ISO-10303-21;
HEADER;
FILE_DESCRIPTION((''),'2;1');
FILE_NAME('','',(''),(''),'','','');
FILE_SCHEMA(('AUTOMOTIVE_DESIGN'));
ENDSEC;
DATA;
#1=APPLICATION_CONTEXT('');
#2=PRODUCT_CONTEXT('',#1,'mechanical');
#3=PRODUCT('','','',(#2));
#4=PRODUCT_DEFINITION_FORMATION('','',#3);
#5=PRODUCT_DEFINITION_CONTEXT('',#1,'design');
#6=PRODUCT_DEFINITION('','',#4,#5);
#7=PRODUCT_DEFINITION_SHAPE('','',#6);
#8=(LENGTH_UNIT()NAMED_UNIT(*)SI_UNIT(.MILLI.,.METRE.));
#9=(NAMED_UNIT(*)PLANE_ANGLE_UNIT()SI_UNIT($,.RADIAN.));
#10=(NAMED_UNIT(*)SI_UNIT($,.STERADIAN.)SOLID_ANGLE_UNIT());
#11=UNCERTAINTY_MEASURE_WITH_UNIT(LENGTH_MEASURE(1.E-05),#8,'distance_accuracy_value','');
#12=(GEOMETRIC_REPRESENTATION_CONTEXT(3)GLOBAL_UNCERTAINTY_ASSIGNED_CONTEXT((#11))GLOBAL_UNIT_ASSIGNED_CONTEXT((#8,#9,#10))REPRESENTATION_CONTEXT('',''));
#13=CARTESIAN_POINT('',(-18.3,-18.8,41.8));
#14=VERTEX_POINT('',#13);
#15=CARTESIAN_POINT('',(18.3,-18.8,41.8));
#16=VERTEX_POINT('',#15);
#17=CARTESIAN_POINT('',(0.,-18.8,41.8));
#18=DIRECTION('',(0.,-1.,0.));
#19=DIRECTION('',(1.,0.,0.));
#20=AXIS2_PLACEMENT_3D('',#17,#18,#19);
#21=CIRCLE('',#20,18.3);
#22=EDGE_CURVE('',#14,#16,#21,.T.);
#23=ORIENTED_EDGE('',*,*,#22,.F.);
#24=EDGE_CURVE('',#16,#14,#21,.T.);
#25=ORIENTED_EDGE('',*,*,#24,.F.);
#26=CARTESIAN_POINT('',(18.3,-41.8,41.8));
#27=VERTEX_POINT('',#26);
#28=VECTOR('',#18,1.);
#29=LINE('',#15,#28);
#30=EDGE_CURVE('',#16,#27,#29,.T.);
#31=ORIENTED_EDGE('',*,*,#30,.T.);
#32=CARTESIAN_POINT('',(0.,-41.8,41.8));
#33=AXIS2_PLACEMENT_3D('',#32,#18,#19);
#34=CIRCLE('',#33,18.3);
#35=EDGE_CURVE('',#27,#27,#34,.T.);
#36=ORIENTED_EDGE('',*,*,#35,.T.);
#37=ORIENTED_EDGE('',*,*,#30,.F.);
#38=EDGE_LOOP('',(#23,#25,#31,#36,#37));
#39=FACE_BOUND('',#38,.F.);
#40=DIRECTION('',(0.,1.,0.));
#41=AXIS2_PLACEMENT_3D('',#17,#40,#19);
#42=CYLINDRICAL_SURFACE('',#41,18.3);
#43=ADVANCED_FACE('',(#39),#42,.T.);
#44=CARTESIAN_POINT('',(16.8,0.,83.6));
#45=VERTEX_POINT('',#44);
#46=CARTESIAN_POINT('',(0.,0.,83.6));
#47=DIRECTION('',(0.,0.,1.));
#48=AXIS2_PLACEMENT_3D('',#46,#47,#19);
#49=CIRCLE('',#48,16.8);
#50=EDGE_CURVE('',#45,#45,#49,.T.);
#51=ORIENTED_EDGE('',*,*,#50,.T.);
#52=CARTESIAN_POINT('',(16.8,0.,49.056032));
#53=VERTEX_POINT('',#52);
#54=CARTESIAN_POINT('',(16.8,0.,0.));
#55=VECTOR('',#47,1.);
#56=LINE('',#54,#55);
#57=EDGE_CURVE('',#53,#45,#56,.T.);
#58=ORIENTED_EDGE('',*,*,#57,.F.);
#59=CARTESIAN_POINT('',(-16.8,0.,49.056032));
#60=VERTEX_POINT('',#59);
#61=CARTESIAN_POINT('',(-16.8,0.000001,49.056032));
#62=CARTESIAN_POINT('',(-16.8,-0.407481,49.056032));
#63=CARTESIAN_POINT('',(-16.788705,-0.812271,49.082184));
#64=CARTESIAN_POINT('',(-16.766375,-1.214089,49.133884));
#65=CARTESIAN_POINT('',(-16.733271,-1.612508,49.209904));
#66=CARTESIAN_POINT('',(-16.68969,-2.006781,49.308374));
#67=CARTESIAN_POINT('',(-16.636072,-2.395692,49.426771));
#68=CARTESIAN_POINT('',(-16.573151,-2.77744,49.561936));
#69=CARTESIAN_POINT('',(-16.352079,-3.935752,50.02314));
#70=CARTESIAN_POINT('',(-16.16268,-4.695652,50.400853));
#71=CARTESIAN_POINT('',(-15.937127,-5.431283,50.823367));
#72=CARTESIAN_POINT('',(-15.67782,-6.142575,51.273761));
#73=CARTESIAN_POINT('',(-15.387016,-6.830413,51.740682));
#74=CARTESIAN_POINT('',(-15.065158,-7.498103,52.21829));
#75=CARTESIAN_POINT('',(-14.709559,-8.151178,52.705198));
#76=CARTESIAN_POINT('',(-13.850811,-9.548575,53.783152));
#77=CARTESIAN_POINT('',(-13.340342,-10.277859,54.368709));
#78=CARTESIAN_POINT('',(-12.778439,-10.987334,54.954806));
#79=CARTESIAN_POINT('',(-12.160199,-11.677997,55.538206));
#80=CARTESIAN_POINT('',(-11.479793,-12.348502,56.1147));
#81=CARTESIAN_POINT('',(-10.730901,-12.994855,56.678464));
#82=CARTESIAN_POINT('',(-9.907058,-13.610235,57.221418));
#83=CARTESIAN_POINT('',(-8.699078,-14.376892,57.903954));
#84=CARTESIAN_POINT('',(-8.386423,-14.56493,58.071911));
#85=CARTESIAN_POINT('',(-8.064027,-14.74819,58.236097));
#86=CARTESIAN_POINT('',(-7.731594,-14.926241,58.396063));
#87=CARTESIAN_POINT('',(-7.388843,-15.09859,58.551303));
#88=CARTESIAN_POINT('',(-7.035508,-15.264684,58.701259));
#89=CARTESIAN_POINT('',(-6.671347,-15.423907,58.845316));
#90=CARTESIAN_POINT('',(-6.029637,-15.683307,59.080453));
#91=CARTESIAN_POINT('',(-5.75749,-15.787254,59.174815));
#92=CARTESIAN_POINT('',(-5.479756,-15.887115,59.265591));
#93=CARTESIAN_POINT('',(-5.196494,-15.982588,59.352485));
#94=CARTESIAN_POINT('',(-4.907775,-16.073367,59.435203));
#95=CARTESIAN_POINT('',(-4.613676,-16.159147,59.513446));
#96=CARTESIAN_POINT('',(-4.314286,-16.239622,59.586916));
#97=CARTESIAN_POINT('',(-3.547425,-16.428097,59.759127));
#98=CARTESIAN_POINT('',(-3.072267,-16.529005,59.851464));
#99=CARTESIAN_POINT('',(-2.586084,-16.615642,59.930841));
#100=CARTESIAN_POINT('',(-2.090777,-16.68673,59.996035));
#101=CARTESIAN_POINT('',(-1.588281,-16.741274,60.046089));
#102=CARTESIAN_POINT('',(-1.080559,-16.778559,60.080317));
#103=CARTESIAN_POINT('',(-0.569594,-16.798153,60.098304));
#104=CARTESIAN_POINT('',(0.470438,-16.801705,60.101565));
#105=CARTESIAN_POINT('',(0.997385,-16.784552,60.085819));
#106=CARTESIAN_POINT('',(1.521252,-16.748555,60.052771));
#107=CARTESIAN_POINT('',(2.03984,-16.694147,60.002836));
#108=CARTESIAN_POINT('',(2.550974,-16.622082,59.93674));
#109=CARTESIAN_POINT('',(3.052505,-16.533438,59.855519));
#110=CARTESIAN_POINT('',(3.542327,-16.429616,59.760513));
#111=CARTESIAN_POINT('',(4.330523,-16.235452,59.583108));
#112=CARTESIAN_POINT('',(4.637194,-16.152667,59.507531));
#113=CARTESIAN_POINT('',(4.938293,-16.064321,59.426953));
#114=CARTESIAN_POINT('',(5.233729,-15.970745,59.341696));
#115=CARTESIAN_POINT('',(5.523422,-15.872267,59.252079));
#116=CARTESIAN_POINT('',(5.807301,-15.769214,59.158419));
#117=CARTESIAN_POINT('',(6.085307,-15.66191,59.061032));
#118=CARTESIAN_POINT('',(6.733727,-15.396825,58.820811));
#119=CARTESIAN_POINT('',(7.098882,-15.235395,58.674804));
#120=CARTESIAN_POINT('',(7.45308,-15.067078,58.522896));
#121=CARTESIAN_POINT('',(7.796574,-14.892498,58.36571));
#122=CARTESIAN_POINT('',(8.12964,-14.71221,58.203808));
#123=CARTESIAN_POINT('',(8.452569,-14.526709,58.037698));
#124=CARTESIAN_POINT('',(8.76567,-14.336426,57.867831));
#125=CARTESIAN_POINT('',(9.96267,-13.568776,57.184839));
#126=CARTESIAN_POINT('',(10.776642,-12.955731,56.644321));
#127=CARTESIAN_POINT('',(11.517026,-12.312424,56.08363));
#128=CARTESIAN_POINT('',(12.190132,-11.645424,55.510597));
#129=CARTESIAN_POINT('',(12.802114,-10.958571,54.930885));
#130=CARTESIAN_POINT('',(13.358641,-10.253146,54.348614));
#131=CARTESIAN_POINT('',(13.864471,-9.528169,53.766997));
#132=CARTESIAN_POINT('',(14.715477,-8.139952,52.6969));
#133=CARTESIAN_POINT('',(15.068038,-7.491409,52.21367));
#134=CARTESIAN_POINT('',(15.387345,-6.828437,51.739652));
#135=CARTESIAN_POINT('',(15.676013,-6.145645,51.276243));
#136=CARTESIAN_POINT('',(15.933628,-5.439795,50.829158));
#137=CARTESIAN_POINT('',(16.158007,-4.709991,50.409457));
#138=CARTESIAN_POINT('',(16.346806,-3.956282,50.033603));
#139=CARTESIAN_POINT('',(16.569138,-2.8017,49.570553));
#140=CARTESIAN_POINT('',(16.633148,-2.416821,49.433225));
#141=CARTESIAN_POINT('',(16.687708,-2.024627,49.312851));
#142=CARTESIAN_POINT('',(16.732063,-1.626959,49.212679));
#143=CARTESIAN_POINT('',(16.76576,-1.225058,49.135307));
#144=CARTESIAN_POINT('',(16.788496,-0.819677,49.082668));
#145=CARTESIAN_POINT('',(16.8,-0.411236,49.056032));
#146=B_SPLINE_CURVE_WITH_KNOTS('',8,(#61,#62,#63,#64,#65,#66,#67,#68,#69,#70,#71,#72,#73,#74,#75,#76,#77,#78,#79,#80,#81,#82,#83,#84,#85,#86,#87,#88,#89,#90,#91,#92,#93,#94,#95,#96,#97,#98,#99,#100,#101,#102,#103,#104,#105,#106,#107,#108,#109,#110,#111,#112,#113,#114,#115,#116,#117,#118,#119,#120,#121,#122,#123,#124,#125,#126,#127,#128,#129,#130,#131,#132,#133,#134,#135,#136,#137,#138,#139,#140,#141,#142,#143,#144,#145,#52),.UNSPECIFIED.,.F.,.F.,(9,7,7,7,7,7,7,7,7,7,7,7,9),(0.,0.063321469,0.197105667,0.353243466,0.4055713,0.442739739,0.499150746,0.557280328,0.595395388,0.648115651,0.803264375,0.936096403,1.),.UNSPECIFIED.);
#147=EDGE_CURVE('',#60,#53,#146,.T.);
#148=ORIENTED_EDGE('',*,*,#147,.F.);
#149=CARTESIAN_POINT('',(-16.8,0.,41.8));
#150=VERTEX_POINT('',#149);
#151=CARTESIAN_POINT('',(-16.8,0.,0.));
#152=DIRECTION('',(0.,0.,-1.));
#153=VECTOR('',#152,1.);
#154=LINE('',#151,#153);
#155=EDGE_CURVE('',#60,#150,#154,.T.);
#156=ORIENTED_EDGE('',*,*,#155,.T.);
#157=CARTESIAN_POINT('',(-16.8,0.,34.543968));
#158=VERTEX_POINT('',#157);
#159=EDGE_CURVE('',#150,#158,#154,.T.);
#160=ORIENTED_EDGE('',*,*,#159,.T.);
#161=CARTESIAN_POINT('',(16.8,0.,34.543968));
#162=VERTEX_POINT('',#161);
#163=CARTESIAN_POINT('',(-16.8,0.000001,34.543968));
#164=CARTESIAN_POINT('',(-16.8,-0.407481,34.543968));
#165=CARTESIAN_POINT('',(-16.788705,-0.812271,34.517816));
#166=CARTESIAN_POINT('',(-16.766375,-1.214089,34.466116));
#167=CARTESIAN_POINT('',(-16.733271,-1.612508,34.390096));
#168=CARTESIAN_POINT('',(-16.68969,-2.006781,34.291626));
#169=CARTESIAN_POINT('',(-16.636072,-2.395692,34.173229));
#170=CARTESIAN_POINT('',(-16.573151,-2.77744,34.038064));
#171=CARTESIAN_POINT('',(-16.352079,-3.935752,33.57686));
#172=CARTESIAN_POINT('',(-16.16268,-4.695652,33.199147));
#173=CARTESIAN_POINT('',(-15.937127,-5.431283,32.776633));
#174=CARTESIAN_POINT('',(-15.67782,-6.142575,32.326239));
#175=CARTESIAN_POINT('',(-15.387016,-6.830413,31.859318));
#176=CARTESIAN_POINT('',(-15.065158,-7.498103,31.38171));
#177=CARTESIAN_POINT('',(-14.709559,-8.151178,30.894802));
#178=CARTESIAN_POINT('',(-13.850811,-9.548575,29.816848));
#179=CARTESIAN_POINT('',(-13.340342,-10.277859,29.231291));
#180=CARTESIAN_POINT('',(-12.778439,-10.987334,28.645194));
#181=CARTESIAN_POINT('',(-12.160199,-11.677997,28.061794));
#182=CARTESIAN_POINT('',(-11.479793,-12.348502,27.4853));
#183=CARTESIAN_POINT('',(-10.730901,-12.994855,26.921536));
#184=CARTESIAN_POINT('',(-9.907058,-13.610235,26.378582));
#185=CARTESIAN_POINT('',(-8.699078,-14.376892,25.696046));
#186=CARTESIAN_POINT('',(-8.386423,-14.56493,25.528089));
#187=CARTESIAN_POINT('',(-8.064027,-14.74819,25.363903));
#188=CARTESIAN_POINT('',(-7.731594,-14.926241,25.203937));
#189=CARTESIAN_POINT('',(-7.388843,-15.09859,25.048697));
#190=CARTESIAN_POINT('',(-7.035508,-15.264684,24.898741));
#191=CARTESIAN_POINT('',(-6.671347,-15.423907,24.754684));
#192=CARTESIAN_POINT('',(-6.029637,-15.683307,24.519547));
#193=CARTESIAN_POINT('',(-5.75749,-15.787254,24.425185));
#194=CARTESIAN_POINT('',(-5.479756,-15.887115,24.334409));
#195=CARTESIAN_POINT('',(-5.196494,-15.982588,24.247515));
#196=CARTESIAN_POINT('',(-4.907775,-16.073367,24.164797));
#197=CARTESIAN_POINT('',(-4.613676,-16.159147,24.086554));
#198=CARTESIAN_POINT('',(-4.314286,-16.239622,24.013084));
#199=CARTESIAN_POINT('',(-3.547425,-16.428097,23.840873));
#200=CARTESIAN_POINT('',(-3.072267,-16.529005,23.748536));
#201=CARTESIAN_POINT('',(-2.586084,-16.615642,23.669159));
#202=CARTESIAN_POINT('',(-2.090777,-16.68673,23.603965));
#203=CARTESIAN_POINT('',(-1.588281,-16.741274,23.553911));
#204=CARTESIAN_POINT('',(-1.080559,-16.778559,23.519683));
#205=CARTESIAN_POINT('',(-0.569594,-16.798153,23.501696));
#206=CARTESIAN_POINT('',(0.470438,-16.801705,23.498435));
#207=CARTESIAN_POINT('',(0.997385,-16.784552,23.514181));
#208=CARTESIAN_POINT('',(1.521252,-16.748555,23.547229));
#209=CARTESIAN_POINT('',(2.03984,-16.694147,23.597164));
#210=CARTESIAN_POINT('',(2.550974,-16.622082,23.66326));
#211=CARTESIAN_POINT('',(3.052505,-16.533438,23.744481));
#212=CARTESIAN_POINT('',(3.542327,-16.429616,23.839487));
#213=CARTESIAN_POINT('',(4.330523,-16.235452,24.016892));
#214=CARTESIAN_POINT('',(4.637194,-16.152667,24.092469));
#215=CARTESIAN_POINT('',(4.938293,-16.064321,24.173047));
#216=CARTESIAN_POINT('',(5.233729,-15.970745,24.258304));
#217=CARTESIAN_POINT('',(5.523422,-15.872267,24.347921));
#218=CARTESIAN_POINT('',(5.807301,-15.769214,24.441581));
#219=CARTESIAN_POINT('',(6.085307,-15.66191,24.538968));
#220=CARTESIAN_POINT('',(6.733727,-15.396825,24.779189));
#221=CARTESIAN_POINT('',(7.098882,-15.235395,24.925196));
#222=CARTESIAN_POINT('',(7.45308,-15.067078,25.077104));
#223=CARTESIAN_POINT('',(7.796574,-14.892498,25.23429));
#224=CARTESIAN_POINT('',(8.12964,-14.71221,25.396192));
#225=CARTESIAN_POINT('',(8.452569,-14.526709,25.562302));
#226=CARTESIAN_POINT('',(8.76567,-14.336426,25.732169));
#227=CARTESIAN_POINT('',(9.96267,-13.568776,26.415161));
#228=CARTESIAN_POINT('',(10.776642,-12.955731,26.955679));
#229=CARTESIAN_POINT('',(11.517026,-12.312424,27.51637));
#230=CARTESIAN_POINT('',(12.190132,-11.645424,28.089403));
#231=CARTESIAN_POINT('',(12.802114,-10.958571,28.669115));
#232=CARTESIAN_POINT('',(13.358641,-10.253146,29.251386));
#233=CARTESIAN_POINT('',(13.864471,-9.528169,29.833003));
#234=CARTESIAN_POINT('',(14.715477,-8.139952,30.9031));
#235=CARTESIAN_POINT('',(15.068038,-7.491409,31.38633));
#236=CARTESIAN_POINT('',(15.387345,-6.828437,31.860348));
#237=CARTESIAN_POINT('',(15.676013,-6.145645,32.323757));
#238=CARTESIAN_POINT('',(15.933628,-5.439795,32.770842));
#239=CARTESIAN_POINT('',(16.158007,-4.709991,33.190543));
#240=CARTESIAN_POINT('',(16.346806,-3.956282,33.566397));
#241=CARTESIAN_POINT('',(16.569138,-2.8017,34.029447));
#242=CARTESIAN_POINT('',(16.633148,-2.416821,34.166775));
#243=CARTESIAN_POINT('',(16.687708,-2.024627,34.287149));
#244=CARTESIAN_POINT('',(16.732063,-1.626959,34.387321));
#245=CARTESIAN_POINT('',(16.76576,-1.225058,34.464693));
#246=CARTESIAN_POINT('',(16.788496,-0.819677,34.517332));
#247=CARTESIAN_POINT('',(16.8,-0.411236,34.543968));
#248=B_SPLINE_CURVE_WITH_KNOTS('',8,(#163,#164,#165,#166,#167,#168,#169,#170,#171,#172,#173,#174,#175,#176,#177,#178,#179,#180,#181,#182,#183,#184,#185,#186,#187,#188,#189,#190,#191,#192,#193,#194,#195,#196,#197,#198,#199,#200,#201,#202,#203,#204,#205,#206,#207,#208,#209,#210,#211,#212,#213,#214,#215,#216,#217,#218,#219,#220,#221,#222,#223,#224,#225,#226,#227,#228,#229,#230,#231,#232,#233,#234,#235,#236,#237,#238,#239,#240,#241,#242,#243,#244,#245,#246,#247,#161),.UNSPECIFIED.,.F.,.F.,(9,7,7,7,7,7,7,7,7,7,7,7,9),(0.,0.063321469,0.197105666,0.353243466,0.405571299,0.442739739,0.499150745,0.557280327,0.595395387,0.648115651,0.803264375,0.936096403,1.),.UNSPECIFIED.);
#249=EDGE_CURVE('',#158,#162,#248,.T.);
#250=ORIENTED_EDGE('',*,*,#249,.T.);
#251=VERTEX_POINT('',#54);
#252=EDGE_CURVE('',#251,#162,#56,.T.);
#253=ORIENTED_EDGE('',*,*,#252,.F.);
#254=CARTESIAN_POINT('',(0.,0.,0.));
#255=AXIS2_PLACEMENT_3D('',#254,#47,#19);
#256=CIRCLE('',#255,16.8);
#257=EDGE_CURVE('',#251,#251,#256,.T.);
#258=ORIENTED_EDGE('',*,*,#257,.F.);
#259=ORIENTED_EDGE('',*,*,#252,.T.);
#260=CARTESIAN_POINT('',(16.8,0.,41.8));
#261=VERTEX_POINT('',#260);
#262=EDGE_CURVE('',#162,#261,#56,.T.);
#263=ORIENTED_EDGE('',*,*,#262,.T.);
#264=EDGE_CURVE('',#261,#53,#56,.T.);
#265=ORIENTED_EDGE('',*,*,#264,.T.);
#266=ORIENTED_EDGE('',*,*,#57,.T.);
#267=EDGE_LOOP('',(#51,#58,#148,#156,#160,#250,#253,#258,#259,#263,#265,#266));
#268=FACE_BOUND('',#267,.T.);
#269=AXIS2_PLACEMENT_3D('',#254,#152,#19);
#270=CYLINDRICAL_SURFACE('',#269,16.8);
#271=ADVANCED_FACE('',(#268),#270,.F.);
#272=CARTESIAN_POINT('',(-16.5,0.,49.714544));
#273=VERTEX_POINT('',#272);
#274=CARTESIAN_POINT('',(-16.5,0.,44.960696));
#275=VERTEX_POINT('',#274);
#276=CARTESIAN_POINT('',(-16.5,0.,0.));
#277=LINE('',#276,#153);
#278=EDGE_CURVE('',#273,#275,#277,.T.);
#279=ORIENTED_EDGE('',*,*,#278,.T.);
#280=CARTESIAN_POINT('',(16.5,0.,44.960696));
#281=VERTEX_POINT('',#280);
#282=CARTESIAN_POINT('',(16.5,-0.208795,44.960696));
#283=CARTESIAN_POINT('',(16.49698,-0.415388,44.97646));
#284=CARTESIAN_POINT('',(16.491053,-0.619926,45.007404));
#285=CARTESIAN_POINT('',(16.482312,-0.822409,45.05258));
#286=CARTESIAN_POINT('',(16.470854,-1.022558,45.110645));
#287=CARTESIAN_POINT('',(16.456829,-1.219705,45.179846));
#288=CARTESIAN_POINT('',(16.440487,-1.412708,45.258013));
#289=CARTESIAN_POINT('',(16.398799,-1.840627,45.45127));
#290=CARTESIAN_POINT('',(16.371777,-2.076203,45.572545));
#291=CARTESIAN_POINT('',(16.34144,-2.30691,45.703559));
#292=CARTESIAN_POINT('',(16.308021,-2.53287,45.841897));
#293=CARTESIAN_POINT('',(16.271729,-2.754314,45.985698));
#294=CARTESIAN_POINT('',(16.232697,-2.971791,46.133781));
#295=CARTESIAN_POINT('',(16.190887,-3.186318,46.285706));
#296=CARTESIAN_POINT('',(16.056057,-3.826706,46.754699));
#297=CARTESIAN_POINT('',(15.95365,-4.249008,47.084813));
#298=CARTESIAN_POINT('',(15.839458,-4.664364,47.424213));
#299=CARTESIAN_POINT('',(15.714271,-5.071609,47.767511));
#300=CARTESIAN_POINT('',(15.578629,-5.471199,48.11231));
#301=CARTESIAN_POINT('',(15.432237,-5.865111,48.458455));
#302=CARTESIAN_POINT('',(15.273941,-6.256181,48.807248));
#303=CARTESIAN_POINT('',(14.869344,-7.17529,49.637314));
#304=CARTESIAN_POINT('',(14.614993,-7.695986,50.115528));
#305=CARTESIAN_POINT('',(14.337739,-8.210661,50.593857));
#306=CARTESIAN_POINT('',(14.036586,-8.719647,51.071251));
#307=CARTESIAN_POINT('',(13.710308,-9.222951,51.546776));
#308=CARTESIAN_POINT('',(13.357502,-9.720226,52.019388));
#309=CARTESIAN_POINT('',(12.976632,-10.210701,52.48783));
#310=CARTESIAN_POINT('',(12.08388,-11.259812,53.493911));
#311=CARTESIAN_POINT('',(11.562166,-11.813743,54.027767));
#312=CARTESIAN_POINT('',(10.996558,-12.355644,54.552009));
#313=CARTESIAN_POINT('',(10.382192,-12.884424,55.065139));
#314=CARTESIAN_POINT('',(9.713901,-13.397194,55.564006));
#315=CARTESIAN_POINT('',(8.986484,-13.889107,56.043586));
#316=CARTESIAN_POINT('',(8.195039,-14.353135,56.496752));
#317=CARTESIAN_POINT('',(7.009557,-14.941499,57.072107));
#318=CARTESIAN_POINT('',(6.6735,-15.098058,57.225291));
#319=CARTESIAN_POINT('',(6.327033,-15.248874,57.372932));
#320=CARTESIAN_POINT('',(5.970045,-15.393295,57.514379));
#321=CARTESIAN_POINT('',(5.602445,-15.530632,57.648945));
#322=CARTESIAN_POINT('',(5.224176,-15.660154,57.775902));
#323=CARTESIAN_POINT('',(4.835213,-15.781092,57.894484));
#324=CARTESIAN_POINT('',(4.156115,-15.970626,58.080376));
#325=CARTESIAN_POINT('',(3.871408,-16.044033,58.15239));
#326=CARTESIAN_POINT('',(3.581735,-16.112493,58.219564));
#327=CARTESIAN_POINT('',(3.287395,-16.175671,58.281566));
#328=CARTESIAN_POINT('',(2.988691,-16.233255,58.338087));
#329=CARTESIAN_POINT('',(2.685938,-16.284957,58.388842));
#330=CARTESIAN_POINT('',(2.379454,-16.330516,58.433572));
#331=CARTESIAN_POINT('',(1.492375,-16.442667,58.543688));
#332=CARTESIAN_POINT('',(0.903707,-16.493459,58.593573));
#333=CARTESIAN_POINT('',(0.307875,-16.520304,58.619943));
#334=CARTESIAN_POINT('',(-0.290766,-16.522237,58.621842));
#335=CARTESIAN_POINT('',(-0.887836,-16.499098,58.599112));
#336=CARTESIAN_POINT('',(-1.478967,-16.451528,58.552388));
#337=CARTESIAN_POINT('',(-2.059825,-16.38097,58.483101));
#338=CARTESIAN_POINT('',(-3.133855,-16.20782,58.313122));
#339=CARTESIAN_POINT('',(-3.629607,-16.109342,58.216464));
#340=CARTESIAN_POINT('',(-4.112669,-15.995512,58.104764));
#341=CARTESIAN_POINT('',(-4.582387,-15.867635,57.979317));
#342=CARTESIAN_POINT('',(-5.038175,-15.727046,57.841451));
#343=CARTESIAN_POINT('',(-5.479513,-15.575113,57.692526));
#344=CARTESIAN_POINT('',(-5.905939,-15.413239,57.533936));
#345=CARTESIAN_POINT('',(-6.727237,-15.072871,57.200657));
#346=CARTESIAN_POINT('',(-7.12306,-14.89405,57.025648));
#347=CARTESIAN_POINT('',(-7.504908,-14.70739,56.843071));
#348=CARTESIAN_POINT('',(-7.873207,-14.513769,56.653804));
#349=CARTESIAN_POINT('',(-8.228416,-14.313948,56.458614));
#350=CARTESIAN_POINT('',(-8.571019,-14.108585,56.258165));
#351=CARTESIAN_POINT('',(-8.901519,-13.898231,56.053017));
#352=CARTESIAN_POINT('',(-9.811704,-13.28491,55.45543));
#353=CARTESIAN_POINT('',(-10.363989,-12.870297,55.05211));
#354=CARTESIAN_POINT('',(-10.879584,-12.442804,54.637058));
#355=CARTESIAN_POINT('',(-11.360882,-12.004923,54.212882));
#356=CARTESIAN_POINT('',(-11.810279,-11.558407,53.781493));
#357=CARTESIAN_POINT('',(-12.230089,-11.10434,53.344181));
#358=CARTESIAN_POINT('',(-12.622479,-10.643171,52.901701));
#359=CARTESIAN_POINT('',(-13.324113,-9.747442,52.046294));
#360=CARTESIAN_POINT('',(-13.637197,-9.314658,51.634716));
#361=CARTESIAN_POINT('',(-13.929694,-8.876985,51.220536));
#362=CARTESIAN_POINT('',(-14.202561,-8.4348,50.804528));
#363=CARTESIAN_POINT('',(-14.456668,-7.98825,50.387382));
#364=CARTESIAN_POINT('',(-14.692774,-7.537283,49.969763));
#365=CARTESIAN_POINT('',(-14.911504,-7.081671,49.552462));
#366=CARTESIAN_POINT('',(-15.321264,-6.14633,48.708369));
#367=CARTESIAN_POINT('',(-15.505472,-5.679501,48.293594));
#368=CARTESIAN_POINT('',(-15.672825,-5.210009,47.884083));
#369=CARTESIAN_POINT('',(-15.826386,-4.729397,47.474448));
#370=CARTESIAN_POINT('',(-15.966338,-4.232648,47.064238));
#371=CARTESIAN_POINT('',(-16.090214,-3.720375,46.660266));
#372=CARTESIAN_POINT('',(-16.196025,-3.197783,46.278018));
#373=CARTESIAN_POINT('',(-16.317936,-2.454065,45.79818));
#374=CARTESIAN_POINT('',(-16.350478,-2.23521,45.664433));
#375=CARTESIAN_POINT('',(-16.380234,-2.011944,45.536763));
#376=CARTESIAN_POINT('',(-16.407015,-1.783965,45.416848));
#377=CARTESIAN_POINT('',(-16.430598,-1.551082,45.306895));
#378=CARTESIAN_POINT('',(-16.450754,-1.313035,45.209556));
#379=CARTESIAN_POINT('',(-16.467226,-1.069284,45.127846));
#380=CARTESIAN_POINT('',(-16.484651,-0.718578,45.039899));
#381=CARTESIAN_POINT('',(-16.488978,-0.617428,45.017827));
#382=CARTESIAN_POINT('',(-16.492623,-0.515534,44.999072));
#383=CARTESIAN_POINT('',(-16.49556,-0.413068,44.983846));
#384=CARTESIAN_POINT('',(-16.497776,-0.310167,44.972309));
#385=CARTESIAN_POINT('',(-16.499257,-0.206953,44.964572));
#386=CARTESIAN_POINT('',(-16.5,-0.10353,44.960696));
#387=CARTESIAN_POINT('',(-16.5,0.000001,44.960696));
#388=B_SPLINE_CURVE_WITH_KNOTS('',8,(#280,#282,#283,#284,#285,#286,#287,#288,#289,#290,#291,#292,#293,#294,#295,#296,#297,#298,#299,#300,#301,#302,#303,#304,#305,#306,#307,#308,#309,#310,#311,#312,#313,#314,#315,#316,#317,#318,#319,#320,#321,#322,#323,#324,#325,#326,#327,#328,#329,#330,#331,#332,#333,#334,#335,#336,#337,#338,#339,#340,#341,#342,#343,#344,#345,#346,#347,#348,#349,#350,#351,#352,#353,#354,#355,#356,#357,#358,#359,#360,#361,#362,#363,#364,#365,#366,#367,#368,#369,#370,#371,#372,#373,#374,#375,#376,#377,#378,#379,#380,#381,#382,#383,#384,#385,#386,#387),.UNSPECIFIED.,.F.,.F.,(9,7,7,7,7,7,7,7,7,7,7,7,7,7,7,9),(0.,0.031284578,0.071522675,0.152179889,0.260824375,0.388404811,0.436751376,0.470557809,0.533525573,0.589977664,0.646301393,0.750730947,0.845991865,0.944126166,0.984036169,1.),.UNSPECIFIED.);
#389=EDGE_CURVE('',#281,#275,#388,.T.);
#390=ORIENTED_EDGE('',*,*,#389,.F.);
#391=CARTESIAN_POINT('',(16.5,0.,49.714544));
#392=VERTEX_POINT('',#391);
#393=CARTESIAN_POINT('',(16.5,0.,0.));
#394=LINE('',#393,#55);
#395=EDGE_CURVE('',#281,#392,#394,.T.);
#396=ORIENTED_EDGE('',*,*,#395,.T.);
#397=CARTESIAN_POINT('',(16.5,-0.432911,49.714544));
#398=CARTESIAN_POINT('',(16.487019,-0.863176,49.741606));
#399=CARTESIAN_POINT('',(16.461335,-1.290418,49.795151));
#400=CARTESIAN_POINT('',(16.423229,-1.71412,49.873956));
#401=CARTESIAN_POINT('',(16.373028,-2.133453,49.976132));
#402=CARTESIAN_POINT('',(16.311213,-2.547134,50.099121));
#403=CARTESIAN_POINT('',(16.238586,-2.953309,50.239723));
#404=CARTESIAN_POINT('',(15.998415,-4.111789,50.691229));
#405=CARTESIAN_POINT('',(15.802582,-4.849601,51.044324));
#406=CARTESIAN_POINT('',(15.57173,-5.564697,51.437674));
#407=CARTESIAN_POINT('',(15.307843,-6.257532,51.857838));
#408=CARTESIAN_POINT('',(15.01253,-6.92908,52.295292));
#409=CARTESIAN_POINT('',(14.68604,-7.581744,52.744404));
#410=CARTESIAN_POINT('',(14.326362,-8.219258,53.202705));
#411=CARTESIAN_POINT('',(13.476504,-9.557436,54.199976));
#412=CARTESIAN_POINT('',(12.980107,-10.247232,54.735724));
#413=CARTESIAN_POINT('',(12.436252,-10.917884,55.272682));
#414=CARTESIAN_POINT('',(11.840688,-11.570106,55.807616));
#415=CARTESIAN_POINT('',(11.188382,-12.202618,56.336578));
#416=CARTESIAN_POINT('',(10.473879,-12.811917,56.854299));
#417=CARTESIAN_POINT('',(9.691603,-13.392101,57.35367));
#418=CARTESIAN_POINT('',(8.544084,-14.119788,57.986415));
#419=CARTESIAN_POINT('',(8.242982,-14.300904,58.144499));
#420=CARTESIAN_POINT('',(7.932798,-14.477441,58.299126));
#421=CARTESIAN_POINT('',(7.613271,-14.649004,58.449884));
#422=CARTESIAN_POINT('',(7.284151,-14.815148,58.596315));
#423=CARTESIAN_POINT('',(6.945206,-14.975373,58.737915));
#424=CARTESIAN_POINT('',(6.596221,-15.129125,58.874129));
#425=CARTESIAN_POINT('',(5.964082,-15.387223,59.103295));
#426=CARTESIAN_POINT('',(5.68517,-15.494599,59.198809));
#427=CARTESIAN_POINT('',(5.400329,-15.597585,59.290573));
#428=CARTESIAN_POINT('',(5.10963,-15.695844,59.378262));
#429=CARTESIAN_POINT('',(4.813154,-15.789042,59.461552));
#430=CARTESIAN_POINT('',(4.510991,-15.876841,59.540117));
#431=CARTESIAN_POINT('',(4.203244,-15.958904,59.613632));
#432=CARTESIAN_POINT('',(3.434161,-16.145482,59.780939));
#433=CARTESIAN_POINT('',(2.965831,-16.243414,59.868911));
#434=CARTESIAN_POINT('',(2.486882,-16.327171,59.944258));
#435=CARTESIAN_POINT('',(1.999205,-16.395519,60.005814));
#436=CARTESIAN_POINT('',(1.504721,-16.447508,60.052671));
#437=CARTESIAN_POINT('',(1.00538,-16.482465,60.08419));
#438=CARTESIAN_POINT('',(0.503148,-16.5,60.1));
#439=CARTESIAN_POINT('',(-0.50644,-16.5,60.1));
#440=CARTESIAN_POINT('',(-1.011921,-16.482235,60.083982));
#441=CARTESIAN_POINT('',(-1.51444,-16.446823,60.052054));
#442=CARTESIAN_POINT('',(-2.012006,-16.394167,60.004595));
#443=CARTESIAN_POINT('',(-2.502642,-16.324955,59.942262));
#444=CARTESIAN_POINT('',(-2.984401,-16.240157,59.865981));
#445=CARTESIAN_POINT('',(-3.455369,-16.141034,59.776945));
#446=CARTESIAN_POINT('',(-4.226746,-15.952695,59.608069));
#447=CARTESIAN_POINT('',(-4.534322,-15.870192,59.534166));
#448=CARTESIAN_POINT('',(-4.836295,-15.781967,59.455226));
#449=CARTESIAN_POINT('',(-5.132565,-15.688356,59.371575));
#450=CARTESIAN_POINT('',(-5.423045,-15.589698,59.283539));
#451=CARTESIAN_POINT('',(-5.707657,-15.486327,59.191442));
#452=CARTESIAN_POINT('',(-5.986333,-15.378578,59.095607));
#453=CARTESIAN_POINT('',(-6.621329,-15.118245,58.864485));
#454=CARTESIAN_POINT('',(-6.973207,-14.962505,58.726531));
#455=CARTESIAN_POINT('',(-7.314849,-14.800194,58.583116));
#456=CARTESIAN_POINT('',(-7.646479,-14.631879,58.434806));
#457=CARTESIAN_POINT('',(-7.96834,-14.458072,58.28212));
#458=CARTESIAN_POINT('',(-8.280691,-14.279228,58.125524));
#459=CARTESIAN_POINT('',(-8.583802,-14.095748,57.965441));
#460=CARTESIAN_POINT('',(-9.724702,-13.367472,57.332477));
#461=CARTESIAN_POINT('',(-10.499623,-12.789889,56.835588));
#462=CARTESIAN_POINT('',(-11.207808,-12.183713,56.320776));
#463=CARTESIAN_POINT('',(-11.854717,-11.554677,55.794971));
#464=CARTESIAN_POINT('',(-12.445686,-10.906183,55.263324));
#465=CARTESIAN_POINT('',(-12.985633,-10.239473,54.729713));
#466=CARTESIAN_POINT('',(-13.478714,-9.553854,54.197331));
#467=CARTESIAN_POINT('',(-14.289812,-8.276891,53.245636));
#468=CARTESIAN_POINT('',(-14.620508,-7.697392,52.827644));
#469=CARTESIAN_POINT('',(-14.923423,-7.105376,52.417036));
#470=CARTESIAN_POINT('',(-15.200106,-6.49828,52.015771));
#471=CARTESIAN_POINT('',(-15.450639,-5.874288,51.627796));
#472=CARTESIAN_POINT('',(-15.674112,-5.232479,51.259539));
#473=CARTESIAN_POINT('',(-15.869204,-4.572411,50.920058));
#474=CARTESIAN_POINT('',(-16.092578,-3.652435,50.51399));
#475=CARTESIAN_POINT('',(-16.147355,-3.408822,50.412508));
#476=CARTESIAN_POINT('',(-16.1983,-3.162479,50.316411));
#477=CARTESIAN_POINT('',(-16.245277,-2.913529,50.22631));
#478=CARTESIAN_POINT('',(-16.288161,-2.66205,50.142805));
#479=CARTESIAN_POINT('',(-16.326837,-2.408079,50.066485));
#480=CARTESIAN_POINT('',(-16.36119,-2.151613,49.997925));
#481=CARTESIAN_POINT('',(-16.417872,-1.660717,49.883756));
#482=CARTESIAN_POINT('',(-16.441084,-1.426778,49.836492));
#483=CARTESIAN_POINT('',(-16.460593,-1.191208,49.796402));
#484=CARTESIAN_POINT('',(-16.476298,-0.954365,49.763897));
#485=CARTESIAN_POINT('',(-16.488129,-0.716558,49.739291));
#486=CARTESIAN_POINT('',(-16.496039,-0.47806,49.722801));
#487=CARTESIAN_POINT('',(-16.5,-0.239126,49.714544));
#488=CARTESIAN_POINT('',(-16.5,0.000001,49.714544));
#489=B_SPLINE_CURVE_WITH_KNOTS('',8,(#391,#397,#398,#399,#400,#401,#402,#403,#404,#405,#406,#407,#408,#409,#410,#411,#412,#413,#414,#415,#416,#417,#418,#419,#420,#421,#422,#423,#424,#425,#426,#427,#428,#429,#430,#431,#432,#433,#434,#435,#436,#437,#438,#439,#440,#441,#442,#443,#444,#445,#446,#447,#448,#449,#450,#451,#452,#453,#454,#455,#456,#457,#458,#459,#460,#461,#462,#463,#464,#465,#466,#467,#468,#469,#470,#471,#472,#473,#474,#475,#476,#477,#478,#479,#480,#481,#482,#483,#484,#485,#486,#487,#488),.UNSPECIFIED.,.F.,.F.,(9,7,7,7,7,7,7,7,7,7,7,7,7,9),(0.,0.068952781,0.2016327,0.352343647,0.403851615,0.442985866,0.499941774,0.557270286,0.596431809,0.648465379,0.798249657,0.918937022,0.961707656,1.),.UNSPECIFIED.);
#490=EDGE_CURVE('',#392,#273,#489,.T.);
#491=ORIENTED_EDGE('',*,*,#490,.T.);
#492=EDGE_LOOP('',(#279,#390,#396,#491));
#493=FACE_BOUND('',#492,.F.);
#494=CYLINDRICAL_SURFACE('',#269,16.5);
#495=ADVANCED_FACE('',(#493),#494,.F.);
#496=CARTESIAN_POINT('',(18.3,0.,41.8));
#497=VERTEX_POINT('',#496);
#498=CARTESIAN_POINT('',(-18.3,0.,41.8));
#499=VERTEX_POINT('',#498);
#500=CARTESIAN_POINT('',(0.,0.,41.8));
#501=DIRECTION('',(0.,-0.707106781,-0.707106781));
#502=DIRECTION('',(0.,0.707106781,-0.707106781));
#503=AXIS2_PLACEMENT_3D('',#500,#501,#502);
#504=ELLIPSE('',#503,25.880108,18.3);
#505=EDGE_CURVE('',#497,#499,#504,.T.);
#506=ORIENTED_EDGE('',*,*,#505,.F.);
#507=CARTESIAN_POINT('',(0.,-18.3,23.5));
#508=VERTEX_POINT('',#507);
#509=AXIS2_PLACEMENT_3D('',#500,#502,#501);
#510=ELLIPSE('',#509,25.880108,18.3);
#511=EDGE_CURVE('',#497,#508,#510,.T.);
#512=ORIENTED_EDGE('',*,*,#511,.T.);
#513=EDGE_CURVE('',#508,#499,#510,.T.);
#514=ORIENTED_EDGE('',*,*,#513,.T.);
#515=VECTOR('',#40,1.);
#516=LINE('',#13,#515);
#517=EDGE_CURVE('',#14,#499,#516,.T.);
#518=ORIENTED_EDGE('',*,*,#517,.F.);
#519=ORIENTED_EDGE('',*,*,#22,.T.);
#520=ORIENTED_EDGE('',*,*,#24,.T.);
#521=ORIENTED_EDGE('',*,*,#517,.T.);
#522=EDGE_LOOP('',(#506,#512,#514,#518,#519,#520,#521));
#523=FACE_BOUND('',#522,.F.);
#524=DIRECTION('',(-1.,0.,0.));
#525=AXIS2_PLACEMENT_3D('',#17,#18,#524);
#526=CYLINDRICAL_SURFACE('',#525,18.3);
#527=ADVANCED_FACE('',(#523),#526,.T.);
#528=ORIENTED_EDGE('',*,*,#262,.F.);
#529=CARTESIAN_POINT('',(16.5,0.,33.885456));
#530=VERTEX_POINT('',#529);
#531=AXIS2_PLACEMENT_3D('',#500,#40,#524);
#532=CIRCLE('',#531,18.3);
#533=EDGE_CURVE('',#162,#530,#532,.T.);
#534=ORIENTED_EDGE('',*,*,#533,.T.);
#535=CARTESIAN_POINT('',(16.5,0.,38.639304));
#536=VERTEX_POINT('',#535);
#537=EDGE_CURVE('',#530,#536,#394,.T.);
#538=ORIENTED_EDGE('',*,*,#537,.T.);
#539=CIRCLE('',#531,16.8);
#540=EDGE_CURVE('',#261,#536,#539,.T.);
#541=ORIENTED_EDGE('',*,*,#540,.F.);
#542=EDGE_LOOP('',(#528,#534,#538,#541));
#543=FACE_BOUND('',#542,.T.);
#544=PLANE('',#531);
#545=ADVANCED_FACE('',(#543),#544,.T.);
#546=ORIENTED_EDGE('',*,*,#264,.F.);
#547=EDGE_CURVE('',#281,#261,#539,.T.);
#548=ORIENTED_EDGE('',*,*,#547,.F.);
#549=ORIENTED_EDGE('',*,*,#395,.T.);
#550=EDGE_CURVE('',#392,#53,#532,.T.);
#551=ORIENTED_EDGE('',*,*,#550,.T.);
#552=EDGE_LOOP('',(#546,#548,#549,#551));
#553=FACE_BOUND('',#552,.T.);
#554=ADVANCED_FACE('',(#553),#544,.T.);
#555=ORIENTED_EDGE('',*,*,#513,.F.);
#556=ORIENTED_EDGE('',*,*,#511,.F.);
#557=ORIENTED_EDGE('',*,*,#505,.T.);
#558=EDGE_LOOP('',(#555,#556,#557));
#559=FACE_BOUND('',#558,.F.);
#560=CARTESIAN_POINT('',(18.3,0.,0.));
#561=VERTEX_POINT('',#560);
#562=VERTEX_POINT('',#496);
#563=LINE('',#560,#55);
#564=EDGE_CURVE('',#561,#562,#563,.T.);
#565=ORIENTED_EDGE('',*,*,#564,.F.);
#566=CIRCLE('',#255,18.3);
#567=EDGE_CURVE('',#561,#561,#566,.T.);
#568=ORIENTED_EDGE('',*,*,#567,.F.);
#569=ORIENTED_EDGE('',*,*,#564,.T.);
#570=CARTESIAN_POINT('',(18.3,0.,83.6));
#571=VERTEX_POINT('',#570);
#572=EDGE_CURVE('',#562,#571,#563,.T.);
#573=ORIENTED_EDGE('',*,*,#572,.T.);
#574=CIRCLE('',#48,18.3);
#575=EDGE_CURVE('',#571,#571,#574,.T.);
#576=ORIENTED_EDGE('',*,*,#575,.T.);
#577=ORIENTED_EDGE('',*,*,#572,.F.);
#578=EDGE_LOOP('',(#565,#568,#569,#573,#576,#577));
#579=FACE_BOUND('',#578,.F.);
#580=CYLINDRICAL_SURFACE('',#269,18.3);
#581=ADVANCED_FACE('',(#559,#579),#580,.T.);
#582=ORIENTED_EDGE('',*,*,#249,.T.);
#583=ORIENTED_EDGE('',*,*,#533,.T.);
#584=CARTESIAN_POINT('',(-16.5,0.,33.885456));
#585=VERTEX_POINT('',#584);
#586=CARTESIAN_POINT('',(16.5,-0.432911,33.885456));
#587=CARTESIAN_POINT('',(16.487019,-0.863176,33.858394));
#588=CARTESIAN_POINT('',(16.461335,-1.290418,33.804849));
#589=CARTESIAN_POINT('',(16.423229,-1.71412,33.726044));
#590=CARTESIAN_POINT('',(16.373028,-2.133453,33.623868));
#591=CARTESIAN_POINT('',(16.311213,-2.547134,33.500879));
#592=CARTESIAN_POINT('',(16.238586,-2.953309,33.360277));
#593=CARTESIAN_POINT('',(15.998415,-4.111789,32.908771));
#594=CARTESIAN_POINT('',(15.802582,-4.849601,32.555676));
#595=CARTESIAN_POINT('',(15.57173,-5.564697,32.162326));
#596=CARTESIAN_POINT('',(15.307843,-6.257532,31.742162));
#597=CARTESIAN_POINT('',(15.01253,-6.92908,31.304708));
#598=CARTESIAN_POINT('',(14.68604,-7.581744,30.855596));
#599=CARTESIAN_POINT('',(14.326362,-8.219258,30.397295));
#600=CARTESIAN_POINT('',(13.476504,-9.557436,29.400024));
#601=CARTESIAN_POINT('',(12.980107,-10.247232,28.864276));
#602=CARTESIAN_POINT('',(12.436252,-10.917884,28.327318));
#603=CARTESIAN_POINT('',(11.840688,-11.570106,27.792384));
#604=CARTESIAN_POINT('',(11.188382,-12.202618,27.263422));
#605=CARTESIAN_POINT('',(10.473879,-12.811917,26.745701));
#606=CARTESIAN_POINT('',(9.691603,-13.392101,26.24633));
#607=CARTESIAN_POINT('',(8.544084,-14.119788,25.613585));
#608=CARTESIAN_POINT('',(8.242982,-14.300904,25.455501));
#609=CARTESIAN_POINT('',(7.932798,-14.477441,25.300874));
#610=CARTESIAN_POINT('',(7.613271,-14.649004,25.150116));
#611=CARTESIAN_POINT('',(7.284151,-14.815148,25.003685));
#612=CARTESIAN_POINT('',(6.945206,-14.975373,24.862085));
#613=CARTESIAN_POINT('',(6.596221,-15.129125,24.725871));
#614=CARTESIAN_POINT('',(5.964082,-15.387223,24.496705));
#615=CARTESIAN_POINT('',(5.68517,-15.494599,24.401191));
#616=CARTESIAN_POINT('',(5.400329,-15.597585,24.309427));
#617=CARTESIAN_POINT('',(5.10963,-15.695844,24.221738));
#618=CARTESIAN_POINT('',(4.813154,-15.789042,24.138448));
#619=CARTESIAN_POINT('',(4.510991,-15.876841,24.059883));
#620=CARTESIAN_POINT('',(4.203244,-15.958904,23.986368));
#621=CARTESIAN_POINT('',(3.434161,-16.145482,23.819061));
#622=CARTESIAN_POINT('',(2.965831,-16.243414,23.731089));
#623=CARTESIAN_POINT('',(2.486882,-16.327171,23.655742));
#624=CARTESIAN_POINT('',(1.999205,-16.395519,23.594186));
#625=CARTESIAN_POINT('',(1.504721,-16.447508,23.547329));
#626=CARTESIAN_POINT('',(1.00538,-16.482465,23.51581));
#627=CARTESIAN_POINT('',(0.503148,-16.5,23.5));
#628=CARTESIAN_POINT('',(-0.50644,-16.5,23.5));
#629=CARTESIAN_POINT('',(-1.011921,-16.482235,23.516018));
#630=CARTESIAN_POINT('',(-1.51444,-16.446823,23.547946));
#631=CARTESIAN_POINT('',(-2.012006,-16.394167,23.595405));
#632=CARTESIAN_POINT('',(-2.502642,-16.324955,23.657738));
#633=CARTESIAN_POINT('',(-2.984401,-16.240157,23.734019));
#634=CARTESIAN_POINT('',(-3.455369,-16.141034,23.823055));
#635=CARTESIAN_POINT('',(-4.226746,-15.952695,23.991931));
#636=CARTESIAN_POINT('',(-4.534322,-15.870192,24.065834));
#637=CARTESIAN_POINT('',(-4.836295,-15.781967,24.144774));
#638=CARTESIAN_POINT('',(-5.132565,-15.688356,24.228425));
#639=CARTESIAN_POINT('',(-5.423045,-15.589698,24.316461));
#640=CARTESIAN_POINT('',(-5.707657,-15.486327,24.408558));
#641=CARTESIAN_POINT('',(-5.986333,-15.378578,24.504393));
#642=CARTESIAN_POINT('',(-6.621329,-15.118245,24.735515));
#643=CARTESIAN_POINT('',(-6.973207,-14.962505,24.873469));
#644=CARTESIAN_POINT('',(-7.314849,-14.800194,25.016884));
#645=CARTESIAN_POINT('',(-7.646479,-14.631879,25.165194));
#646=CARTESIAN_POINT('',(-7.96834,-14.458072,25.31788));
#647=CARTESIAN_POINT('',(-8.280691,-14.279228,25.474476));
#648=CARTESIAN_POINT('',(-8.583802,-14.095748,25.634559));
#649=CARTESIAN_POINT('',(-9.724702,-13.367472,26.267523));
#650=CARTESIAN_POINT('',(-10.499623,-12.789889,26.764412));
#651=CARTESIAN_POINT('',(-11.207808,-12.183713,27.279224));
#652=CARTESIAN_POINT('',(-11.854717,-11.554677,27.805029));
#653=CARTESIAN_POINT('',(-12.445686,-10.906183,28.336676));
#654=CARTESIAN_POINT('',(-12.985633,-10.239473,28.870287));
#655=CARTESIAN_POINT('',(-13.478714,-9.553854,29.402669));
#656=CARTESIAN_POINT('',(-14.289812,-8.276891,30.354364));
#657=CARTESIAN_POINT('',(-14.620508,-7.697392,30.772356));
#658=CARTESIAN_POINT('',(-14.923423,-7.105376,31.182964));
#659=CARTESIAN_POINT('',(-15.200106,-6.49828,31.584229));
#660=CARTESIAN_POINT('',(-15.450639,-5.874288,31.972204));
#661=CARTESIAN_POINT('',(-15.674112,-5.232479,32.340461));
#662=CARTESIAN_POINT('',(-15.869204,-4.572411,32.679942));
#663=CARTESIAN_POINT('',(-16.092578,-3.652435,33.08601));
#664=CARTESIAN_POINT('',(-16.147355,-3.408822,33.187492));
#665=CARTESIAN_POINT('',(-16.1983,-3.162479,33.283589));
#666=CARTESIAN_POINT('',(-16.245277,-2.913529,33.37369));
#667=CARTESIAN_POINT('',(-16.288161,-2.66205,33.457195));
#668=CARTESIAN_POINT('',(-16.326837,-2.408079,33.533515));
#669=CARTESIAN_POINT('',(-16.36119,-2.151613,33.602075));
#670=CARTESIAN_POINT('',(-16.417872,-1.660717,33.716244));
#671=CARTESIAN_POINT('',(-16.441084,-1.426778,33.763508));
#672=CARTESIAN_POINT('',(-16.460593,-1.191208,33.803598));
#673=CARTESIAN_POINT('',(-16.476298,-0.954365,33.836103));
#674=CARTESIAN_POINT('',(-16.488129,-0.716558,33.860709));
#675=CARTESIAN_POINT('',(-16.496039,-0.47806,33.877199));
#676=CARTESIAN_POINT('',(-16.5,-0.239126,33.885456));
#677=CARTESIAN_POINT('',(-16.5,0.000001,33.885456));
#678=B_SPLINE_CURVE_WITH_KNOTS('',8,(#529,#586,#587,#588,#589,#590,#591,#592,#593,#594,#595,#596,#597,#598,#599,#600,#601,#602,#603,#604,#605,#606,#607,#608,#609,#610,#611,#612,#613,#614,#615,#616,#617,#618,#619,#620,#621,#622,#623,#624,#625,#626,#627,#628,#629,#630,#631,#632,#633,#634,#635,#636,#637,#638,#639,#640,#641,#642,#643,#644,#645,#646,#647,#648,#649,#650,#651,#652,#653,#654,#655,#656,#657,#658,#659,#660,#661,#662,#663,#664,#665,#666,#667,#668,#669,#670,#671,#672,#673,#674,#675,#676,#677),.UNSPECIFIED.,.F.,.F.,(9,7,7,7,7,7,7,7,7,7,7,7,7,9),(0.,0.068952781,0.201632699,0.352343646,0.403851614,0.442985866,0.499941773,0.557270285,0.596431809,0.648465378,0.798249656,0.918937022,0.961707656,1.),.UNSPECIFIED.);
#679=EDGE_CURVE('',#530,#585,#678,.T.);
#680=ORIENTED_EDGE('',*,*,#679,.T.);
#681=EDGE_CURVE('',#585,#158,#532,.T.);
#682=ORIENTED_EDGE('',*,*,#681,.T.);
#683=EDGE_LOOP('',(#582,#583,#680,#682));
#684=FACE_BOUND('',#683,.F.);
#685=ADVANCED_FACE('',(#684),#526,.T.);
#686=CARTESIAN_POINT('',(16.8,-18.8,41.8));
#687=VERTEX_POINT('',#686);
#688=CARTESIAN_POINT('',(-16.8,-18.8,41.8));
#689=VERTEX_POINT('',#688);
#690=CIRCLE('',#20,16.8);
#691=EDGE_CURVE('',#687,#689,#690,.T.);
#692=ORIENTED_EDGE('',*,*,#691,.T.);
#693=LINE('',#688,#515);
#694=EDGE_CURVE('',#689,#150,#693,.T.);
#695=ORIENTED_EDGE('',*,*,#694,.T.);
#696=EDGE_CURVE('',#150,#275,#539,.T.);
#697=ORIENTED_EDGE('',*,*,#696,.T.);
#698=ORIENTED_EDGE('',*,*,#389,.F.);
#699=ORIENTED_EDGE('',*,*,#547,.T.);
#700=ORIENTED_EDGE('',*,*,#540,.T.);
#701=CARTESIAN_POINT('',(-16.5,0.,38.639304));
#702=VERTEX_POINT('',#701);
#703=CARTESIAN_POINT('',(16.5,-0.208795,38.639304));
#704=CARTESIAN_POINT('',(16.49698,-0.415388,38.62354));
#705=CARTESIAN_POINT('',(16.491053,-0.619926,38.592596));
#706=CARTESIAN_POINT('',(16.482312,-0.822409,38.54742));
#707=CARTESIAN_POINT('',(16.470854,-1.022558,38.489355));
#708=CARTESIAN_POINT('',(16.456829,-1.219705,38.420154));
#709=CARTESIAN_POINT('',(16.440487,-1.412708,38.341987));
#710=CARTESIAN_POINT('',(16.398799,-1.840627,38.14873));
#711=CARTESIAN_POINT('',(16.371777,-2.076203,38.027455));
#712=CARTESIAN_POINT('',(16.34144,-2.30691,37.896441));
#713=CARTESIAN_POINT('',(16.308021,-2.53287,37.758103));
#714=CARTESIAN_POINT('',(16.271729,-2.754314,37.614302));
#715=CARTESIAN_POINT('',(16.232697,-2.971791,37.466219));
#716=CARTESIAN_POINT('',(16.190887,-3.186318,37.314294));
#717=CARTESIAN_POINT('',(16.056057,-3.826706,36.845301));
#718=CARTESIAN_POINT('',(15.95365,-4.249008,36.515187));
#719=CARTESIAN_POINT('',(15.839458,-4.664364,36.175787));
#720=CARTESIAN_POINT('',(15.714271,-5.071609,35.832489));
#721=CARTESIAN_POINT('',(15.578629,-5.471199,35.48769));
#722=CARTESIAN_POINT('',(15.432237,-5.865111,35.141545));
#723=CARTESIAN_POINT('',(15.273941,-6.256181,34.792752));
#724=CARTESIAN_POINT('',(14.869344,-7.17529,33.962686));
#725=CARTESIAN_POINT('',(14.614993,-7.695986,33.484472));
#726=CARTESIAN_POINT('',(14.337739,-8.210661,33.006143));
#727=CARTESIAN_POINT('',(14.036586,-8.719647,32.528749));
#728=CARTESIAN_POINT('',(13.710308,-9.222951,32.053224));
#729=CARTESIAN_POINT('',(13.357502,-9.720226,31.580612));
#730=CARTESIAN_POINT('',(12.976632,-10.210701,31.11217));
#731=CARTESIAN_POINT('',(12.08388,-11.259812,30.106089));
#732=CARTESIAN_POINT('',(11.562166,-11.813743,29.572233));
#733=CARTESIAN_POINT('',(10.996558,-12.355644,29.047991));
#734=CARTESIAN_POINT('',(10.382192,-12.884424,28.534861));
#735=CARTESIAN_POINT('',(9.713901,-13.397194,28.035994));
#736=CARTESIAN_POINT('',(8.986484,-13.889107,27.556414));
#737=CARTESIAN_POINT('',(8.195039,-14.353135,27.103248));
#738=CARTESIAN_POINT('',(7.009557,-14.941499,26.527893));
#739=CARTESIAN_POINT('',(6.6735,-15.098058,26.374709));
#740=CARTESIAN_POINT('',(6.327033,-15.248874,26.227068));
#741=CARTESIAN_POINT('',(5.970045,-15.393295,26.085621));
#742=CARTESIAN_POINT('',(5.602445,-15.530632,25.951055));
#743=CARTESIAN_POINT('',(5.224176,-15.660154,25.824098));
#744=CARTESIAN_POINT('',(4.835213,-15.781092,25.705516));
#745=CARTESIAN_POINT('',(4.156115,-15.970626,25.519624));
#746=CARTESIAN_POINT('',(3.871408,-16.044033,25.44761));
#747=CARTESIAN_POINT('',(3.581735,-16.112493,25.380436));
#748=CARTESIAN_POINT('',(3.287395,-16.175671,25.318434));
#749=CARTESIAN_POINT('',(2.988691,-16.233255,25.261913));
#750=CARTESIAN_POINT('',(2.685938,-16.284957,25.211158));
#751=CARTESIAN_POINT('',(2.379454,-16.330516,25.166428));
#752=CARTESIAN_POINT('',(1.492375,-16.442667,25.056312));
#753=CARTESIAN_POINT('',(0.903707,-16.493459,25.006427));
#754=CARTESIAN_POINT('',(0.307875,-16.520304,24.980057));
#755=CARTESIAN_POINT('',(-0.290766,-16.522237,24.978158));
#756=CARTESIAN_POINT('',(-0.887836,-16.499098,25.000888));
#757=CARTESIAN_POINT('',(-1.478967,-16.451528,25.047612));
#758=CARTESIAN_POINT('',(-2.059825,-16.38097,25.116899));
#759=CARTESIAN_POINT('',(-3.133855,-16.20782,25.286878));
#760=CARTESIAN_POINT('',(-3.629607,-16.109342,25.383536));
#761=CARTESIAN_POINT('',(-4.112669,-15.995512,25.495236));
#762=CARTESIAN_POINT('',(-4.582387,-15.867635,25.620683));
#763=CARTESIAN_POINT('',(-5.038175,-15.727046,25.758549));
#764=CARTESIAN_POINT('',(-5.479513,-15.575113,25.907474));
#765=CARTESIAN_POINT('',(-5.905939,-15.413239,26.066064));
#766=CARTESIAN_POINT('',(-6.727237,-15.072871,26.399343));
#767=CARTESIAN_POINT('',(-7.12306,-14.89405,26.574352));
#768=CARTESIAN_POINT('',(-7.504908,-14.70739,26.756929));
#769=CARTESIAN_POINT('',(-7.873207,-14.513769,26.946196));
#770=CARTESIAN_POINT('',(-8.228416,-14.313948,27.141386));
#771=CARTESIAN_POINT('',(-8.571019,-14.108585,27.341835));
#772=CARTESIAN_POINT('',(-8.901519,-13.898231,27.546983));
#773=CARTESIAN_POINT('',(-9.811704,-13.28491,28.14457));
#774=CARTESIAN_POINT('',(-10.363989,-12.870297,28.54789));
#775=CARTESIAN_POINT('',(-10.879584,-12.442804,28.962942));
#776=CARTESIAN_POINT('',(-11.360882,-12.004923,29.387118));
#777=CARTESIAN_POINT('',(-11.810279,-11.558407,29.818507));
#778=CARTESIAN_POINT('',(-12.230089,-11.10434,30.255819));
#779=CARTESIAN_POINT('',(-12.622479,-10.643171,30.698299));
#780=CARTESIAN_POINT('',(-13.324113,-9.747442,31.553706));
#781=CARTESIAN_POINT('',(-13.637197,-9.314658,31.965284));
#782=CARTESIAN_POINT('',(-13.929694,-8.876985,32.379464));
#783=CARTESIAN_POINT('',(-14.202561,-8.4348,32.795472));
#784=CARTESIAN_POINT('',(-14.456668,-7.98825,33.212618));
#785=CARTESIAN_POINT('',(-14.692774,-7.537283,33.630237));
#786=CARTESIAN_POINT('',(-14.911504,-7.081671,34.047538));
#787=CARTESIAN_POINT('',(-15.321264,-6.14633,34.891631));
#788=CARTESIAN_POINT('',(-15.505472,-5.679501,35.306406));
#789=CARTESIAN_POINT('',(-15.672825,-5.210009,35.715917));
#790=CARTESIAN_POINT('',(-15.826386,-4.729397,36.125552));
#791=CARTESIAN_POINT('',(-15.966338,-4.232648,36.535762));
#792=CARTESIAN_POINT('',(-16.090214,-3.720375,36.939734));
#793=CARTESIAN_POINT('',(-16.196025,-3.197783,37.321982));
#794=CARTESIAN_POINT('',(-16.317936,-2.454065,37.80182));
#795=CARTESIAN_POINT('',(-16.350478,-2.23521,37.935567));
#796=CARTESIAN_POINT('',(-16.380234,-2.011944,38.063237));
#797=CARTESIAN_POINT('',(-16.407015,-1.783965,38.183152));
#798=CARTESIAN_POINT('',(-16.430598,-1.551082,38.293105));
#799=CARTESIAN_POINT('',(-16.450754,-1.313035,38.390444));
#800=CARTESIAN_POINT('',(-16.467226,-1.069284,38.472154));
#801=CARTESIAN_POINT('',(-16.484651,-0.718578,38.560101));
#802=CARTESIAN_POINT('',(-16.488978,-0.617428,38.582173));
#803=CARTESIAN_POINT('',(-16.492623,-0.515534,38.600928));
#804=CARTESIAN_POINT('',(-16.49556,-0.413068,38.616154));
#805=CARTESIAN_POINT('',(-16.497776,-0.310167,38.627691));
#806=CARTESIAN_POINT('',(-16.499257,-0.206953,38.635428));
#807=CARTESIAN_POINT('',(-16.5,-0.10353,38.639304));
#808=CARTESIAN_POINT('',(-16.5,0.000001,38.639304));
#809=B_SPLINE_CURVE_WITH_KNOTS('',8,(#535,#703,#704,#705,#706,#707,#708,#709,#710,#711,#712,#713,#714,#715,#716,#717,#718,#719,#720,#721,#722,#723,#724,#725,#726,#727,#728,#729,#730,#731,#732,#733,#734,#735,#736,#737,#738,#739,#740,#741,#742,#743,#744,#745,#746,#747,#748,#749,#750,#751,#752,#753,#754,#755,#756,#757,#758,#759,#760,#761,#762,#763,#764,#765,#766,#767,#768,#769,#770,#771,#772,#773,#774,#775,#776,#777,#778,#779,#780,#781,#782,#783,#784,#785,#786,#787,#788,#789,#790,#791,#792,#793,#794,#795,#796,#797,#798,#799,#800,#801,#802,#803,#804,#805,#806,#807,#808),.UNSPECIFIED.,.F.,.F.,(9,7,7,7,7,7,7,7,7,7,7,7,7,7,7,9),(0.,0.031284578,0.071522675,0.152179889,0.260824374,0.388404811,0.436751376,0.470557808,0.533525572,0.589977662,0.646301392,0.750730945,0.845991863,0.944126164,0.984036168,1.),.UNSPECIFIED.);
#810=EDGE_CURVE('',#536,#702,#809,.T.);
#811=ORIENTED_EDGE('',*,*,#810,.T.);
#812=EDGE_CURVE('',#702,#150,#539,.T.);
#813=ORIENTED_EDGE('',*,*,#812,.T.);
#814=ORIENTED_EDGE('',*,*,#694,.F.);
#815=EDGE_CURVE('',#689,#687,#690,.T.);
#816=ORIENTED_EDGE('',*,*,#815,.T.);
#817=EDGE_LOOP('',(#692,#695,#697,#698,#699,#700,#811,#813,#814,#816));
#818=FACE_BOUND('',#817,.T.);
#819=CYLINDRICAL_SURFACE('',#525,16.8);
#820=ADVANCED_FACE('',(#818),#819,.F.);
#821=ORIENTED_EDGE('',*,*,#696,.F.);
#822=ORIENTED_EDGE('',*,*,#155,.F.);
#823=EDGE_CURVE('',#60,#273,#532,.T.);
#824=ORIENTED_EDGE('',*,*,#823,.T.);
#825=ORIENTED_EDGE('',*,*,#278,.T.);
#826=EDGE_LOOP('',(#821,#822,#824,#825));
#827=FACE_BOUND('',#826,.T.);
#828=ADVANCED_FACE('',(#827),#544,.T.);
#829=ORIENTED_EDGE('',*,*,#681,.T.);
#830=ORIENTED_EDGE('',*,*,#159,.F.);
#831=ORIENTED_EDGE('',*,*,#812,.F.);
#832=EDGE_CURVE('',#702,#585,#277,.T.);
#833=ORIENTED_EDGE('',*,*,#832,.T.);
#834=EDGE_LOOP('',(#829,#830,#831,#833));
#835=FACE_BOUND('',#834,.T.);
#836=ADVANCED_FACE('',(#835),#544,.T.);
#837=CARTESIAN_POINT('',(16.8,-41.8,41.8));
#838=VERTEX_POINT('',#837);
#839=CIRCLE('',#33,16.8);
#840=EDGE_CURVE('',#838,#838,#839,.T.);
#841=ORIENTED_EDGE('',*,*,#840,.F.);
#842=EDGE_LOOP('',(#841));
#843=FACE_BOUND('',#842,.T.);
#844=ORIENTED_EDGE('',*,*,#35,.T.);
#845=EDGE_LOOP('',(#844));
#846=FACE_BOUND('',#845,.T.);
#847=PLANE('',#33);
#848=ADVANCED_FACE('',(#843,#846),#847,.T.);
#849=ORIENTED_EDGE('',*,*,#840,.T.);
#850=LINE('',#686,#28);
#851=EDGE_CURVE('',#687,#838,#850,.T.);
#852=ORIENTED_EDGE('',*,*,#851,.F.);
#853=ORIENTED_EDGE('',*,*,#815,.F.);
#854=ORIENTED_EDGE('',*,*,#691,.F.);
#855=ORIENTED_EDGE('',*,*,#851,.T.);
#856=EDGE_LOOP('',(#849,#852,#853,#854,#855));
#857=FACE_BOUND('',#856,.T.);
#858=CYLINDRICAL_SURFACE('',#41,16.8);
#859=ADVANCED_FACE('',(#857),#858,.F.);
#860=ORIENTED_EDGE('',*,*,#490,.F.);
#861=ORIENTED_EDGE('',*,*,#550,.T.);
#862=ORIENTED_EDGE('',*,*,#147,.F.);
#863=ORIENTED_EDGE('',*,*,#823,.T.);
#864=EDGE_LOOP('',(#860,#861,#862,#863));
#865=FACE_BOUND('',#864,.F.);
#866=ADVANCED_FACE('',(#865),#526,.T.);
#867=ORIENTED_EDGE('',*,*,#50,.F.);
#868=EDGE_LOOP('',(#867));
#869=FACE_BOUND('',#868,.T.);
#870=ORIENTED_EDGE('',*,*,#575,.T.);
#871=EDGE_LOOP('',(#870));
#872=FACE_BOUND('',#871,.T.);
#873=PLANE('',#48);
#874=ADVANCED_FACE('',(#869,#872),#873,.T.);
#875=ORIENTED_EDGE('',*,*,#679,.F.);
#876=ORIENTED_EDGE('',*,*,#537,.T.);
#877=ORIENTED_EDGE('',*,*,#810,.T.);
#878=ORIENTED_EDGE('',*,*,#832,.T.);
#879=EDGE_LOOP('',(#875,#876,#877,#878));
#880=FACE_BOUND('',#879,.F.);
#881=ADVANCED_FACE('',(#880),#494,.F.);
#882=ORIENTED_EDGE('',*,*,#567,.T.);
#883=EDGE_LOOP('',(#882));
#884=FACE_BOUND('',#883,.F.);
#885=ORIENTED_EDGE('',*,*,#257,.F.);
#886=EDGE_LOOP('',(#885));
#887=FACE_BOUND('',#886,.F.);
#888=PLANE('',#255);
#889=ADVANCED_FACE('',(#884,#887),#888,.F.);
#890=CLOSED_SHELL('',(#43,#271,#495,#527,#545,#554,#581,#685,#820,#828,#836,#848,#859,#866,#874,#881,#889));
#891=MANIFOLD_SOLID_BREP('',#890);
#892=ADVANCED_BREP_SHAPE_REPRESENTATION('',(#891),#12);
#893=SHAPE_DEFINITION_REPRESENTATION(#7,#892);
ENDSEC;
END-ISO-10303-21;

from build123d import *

# Parameters (mm, degrees)
F0_R     = 18.3
F0_R_2   = 16.8
F1_DEPTH = 83.6
F3_R     = 18.3
F3_R_2   = 16.8
F4_DEPTH = 23
F5_DEPTH = 18.8
F6_R     = 18.3
F6_R_2   = 16.8
F7_DEPTH = 18.8
F8_R     = 16.5
F9_DEPTH = 102.5


with BuildPart() as f1:
    # F0 (on Top) → F1 (new body)
    with BuildSketch(Plane.XY):
        Circle(F0_R)
        Circle(F0_R_2, mode=Mode.SUBTRACT)
    extrude(amount=F1_DEPTH)

    # F3 (on offset) → F5 (cut)
    with BuildSketch(Plane.XZ.offset(18.8)):
        with Locations((0, 41.8)):
            Circle(F3_R)
        with Locations((0, 41.8)):
            Circle(F3_R_2, mode=Mode.SUBTRACT)
        with Locations((0, 41.8)):
            Circle(F3_R_2)
    extrude(amount=-F5_DEPTH, mode=Mode.SUBTRACT)



with BuildPart() as f4:
    # F3 (on offset) → F4 (new body)
    with BuildSketch(Plane.XZ.offset(18.8)):
        with Locations((0, 41.8)):
            Circle(F3_R)
        with Locations((0, 41.8)):
            Circle(F3_R_2, mode=Mode.SUBTRACT)
    extrude(amount=F4_DEPTH)


with BuildPart() as f1_1:
    add(f1.part)

    add(f4.part)  # F7 merges F4
    # F6 (on face) → F7 (join)
    with BuildSketch(Plane(origin=(0, -18.8, 0), x_dir=(-1, 0, 0), z_dir=(0, 1, 0))):
        with Locations((0, 41.8)):
            Circle(F6_R)
        with Locations((0, 41.8)):
            Circle(F6_R_2, mode=Mode.SUBTRACT)
    extrude(amount=F7_DEPTH)

    # F8 (on face) → F9 (cut)
    with BuildSketch(Plane(origin=(0, 0, 0), x_dir=(1, 0, 0), z_dir=(0, 0, -1))):
        Circle(F8_R)
    extrude(amount=-F9_DEPTH, mode=Mode.SUBTRACT)


solid = f1_1.part
